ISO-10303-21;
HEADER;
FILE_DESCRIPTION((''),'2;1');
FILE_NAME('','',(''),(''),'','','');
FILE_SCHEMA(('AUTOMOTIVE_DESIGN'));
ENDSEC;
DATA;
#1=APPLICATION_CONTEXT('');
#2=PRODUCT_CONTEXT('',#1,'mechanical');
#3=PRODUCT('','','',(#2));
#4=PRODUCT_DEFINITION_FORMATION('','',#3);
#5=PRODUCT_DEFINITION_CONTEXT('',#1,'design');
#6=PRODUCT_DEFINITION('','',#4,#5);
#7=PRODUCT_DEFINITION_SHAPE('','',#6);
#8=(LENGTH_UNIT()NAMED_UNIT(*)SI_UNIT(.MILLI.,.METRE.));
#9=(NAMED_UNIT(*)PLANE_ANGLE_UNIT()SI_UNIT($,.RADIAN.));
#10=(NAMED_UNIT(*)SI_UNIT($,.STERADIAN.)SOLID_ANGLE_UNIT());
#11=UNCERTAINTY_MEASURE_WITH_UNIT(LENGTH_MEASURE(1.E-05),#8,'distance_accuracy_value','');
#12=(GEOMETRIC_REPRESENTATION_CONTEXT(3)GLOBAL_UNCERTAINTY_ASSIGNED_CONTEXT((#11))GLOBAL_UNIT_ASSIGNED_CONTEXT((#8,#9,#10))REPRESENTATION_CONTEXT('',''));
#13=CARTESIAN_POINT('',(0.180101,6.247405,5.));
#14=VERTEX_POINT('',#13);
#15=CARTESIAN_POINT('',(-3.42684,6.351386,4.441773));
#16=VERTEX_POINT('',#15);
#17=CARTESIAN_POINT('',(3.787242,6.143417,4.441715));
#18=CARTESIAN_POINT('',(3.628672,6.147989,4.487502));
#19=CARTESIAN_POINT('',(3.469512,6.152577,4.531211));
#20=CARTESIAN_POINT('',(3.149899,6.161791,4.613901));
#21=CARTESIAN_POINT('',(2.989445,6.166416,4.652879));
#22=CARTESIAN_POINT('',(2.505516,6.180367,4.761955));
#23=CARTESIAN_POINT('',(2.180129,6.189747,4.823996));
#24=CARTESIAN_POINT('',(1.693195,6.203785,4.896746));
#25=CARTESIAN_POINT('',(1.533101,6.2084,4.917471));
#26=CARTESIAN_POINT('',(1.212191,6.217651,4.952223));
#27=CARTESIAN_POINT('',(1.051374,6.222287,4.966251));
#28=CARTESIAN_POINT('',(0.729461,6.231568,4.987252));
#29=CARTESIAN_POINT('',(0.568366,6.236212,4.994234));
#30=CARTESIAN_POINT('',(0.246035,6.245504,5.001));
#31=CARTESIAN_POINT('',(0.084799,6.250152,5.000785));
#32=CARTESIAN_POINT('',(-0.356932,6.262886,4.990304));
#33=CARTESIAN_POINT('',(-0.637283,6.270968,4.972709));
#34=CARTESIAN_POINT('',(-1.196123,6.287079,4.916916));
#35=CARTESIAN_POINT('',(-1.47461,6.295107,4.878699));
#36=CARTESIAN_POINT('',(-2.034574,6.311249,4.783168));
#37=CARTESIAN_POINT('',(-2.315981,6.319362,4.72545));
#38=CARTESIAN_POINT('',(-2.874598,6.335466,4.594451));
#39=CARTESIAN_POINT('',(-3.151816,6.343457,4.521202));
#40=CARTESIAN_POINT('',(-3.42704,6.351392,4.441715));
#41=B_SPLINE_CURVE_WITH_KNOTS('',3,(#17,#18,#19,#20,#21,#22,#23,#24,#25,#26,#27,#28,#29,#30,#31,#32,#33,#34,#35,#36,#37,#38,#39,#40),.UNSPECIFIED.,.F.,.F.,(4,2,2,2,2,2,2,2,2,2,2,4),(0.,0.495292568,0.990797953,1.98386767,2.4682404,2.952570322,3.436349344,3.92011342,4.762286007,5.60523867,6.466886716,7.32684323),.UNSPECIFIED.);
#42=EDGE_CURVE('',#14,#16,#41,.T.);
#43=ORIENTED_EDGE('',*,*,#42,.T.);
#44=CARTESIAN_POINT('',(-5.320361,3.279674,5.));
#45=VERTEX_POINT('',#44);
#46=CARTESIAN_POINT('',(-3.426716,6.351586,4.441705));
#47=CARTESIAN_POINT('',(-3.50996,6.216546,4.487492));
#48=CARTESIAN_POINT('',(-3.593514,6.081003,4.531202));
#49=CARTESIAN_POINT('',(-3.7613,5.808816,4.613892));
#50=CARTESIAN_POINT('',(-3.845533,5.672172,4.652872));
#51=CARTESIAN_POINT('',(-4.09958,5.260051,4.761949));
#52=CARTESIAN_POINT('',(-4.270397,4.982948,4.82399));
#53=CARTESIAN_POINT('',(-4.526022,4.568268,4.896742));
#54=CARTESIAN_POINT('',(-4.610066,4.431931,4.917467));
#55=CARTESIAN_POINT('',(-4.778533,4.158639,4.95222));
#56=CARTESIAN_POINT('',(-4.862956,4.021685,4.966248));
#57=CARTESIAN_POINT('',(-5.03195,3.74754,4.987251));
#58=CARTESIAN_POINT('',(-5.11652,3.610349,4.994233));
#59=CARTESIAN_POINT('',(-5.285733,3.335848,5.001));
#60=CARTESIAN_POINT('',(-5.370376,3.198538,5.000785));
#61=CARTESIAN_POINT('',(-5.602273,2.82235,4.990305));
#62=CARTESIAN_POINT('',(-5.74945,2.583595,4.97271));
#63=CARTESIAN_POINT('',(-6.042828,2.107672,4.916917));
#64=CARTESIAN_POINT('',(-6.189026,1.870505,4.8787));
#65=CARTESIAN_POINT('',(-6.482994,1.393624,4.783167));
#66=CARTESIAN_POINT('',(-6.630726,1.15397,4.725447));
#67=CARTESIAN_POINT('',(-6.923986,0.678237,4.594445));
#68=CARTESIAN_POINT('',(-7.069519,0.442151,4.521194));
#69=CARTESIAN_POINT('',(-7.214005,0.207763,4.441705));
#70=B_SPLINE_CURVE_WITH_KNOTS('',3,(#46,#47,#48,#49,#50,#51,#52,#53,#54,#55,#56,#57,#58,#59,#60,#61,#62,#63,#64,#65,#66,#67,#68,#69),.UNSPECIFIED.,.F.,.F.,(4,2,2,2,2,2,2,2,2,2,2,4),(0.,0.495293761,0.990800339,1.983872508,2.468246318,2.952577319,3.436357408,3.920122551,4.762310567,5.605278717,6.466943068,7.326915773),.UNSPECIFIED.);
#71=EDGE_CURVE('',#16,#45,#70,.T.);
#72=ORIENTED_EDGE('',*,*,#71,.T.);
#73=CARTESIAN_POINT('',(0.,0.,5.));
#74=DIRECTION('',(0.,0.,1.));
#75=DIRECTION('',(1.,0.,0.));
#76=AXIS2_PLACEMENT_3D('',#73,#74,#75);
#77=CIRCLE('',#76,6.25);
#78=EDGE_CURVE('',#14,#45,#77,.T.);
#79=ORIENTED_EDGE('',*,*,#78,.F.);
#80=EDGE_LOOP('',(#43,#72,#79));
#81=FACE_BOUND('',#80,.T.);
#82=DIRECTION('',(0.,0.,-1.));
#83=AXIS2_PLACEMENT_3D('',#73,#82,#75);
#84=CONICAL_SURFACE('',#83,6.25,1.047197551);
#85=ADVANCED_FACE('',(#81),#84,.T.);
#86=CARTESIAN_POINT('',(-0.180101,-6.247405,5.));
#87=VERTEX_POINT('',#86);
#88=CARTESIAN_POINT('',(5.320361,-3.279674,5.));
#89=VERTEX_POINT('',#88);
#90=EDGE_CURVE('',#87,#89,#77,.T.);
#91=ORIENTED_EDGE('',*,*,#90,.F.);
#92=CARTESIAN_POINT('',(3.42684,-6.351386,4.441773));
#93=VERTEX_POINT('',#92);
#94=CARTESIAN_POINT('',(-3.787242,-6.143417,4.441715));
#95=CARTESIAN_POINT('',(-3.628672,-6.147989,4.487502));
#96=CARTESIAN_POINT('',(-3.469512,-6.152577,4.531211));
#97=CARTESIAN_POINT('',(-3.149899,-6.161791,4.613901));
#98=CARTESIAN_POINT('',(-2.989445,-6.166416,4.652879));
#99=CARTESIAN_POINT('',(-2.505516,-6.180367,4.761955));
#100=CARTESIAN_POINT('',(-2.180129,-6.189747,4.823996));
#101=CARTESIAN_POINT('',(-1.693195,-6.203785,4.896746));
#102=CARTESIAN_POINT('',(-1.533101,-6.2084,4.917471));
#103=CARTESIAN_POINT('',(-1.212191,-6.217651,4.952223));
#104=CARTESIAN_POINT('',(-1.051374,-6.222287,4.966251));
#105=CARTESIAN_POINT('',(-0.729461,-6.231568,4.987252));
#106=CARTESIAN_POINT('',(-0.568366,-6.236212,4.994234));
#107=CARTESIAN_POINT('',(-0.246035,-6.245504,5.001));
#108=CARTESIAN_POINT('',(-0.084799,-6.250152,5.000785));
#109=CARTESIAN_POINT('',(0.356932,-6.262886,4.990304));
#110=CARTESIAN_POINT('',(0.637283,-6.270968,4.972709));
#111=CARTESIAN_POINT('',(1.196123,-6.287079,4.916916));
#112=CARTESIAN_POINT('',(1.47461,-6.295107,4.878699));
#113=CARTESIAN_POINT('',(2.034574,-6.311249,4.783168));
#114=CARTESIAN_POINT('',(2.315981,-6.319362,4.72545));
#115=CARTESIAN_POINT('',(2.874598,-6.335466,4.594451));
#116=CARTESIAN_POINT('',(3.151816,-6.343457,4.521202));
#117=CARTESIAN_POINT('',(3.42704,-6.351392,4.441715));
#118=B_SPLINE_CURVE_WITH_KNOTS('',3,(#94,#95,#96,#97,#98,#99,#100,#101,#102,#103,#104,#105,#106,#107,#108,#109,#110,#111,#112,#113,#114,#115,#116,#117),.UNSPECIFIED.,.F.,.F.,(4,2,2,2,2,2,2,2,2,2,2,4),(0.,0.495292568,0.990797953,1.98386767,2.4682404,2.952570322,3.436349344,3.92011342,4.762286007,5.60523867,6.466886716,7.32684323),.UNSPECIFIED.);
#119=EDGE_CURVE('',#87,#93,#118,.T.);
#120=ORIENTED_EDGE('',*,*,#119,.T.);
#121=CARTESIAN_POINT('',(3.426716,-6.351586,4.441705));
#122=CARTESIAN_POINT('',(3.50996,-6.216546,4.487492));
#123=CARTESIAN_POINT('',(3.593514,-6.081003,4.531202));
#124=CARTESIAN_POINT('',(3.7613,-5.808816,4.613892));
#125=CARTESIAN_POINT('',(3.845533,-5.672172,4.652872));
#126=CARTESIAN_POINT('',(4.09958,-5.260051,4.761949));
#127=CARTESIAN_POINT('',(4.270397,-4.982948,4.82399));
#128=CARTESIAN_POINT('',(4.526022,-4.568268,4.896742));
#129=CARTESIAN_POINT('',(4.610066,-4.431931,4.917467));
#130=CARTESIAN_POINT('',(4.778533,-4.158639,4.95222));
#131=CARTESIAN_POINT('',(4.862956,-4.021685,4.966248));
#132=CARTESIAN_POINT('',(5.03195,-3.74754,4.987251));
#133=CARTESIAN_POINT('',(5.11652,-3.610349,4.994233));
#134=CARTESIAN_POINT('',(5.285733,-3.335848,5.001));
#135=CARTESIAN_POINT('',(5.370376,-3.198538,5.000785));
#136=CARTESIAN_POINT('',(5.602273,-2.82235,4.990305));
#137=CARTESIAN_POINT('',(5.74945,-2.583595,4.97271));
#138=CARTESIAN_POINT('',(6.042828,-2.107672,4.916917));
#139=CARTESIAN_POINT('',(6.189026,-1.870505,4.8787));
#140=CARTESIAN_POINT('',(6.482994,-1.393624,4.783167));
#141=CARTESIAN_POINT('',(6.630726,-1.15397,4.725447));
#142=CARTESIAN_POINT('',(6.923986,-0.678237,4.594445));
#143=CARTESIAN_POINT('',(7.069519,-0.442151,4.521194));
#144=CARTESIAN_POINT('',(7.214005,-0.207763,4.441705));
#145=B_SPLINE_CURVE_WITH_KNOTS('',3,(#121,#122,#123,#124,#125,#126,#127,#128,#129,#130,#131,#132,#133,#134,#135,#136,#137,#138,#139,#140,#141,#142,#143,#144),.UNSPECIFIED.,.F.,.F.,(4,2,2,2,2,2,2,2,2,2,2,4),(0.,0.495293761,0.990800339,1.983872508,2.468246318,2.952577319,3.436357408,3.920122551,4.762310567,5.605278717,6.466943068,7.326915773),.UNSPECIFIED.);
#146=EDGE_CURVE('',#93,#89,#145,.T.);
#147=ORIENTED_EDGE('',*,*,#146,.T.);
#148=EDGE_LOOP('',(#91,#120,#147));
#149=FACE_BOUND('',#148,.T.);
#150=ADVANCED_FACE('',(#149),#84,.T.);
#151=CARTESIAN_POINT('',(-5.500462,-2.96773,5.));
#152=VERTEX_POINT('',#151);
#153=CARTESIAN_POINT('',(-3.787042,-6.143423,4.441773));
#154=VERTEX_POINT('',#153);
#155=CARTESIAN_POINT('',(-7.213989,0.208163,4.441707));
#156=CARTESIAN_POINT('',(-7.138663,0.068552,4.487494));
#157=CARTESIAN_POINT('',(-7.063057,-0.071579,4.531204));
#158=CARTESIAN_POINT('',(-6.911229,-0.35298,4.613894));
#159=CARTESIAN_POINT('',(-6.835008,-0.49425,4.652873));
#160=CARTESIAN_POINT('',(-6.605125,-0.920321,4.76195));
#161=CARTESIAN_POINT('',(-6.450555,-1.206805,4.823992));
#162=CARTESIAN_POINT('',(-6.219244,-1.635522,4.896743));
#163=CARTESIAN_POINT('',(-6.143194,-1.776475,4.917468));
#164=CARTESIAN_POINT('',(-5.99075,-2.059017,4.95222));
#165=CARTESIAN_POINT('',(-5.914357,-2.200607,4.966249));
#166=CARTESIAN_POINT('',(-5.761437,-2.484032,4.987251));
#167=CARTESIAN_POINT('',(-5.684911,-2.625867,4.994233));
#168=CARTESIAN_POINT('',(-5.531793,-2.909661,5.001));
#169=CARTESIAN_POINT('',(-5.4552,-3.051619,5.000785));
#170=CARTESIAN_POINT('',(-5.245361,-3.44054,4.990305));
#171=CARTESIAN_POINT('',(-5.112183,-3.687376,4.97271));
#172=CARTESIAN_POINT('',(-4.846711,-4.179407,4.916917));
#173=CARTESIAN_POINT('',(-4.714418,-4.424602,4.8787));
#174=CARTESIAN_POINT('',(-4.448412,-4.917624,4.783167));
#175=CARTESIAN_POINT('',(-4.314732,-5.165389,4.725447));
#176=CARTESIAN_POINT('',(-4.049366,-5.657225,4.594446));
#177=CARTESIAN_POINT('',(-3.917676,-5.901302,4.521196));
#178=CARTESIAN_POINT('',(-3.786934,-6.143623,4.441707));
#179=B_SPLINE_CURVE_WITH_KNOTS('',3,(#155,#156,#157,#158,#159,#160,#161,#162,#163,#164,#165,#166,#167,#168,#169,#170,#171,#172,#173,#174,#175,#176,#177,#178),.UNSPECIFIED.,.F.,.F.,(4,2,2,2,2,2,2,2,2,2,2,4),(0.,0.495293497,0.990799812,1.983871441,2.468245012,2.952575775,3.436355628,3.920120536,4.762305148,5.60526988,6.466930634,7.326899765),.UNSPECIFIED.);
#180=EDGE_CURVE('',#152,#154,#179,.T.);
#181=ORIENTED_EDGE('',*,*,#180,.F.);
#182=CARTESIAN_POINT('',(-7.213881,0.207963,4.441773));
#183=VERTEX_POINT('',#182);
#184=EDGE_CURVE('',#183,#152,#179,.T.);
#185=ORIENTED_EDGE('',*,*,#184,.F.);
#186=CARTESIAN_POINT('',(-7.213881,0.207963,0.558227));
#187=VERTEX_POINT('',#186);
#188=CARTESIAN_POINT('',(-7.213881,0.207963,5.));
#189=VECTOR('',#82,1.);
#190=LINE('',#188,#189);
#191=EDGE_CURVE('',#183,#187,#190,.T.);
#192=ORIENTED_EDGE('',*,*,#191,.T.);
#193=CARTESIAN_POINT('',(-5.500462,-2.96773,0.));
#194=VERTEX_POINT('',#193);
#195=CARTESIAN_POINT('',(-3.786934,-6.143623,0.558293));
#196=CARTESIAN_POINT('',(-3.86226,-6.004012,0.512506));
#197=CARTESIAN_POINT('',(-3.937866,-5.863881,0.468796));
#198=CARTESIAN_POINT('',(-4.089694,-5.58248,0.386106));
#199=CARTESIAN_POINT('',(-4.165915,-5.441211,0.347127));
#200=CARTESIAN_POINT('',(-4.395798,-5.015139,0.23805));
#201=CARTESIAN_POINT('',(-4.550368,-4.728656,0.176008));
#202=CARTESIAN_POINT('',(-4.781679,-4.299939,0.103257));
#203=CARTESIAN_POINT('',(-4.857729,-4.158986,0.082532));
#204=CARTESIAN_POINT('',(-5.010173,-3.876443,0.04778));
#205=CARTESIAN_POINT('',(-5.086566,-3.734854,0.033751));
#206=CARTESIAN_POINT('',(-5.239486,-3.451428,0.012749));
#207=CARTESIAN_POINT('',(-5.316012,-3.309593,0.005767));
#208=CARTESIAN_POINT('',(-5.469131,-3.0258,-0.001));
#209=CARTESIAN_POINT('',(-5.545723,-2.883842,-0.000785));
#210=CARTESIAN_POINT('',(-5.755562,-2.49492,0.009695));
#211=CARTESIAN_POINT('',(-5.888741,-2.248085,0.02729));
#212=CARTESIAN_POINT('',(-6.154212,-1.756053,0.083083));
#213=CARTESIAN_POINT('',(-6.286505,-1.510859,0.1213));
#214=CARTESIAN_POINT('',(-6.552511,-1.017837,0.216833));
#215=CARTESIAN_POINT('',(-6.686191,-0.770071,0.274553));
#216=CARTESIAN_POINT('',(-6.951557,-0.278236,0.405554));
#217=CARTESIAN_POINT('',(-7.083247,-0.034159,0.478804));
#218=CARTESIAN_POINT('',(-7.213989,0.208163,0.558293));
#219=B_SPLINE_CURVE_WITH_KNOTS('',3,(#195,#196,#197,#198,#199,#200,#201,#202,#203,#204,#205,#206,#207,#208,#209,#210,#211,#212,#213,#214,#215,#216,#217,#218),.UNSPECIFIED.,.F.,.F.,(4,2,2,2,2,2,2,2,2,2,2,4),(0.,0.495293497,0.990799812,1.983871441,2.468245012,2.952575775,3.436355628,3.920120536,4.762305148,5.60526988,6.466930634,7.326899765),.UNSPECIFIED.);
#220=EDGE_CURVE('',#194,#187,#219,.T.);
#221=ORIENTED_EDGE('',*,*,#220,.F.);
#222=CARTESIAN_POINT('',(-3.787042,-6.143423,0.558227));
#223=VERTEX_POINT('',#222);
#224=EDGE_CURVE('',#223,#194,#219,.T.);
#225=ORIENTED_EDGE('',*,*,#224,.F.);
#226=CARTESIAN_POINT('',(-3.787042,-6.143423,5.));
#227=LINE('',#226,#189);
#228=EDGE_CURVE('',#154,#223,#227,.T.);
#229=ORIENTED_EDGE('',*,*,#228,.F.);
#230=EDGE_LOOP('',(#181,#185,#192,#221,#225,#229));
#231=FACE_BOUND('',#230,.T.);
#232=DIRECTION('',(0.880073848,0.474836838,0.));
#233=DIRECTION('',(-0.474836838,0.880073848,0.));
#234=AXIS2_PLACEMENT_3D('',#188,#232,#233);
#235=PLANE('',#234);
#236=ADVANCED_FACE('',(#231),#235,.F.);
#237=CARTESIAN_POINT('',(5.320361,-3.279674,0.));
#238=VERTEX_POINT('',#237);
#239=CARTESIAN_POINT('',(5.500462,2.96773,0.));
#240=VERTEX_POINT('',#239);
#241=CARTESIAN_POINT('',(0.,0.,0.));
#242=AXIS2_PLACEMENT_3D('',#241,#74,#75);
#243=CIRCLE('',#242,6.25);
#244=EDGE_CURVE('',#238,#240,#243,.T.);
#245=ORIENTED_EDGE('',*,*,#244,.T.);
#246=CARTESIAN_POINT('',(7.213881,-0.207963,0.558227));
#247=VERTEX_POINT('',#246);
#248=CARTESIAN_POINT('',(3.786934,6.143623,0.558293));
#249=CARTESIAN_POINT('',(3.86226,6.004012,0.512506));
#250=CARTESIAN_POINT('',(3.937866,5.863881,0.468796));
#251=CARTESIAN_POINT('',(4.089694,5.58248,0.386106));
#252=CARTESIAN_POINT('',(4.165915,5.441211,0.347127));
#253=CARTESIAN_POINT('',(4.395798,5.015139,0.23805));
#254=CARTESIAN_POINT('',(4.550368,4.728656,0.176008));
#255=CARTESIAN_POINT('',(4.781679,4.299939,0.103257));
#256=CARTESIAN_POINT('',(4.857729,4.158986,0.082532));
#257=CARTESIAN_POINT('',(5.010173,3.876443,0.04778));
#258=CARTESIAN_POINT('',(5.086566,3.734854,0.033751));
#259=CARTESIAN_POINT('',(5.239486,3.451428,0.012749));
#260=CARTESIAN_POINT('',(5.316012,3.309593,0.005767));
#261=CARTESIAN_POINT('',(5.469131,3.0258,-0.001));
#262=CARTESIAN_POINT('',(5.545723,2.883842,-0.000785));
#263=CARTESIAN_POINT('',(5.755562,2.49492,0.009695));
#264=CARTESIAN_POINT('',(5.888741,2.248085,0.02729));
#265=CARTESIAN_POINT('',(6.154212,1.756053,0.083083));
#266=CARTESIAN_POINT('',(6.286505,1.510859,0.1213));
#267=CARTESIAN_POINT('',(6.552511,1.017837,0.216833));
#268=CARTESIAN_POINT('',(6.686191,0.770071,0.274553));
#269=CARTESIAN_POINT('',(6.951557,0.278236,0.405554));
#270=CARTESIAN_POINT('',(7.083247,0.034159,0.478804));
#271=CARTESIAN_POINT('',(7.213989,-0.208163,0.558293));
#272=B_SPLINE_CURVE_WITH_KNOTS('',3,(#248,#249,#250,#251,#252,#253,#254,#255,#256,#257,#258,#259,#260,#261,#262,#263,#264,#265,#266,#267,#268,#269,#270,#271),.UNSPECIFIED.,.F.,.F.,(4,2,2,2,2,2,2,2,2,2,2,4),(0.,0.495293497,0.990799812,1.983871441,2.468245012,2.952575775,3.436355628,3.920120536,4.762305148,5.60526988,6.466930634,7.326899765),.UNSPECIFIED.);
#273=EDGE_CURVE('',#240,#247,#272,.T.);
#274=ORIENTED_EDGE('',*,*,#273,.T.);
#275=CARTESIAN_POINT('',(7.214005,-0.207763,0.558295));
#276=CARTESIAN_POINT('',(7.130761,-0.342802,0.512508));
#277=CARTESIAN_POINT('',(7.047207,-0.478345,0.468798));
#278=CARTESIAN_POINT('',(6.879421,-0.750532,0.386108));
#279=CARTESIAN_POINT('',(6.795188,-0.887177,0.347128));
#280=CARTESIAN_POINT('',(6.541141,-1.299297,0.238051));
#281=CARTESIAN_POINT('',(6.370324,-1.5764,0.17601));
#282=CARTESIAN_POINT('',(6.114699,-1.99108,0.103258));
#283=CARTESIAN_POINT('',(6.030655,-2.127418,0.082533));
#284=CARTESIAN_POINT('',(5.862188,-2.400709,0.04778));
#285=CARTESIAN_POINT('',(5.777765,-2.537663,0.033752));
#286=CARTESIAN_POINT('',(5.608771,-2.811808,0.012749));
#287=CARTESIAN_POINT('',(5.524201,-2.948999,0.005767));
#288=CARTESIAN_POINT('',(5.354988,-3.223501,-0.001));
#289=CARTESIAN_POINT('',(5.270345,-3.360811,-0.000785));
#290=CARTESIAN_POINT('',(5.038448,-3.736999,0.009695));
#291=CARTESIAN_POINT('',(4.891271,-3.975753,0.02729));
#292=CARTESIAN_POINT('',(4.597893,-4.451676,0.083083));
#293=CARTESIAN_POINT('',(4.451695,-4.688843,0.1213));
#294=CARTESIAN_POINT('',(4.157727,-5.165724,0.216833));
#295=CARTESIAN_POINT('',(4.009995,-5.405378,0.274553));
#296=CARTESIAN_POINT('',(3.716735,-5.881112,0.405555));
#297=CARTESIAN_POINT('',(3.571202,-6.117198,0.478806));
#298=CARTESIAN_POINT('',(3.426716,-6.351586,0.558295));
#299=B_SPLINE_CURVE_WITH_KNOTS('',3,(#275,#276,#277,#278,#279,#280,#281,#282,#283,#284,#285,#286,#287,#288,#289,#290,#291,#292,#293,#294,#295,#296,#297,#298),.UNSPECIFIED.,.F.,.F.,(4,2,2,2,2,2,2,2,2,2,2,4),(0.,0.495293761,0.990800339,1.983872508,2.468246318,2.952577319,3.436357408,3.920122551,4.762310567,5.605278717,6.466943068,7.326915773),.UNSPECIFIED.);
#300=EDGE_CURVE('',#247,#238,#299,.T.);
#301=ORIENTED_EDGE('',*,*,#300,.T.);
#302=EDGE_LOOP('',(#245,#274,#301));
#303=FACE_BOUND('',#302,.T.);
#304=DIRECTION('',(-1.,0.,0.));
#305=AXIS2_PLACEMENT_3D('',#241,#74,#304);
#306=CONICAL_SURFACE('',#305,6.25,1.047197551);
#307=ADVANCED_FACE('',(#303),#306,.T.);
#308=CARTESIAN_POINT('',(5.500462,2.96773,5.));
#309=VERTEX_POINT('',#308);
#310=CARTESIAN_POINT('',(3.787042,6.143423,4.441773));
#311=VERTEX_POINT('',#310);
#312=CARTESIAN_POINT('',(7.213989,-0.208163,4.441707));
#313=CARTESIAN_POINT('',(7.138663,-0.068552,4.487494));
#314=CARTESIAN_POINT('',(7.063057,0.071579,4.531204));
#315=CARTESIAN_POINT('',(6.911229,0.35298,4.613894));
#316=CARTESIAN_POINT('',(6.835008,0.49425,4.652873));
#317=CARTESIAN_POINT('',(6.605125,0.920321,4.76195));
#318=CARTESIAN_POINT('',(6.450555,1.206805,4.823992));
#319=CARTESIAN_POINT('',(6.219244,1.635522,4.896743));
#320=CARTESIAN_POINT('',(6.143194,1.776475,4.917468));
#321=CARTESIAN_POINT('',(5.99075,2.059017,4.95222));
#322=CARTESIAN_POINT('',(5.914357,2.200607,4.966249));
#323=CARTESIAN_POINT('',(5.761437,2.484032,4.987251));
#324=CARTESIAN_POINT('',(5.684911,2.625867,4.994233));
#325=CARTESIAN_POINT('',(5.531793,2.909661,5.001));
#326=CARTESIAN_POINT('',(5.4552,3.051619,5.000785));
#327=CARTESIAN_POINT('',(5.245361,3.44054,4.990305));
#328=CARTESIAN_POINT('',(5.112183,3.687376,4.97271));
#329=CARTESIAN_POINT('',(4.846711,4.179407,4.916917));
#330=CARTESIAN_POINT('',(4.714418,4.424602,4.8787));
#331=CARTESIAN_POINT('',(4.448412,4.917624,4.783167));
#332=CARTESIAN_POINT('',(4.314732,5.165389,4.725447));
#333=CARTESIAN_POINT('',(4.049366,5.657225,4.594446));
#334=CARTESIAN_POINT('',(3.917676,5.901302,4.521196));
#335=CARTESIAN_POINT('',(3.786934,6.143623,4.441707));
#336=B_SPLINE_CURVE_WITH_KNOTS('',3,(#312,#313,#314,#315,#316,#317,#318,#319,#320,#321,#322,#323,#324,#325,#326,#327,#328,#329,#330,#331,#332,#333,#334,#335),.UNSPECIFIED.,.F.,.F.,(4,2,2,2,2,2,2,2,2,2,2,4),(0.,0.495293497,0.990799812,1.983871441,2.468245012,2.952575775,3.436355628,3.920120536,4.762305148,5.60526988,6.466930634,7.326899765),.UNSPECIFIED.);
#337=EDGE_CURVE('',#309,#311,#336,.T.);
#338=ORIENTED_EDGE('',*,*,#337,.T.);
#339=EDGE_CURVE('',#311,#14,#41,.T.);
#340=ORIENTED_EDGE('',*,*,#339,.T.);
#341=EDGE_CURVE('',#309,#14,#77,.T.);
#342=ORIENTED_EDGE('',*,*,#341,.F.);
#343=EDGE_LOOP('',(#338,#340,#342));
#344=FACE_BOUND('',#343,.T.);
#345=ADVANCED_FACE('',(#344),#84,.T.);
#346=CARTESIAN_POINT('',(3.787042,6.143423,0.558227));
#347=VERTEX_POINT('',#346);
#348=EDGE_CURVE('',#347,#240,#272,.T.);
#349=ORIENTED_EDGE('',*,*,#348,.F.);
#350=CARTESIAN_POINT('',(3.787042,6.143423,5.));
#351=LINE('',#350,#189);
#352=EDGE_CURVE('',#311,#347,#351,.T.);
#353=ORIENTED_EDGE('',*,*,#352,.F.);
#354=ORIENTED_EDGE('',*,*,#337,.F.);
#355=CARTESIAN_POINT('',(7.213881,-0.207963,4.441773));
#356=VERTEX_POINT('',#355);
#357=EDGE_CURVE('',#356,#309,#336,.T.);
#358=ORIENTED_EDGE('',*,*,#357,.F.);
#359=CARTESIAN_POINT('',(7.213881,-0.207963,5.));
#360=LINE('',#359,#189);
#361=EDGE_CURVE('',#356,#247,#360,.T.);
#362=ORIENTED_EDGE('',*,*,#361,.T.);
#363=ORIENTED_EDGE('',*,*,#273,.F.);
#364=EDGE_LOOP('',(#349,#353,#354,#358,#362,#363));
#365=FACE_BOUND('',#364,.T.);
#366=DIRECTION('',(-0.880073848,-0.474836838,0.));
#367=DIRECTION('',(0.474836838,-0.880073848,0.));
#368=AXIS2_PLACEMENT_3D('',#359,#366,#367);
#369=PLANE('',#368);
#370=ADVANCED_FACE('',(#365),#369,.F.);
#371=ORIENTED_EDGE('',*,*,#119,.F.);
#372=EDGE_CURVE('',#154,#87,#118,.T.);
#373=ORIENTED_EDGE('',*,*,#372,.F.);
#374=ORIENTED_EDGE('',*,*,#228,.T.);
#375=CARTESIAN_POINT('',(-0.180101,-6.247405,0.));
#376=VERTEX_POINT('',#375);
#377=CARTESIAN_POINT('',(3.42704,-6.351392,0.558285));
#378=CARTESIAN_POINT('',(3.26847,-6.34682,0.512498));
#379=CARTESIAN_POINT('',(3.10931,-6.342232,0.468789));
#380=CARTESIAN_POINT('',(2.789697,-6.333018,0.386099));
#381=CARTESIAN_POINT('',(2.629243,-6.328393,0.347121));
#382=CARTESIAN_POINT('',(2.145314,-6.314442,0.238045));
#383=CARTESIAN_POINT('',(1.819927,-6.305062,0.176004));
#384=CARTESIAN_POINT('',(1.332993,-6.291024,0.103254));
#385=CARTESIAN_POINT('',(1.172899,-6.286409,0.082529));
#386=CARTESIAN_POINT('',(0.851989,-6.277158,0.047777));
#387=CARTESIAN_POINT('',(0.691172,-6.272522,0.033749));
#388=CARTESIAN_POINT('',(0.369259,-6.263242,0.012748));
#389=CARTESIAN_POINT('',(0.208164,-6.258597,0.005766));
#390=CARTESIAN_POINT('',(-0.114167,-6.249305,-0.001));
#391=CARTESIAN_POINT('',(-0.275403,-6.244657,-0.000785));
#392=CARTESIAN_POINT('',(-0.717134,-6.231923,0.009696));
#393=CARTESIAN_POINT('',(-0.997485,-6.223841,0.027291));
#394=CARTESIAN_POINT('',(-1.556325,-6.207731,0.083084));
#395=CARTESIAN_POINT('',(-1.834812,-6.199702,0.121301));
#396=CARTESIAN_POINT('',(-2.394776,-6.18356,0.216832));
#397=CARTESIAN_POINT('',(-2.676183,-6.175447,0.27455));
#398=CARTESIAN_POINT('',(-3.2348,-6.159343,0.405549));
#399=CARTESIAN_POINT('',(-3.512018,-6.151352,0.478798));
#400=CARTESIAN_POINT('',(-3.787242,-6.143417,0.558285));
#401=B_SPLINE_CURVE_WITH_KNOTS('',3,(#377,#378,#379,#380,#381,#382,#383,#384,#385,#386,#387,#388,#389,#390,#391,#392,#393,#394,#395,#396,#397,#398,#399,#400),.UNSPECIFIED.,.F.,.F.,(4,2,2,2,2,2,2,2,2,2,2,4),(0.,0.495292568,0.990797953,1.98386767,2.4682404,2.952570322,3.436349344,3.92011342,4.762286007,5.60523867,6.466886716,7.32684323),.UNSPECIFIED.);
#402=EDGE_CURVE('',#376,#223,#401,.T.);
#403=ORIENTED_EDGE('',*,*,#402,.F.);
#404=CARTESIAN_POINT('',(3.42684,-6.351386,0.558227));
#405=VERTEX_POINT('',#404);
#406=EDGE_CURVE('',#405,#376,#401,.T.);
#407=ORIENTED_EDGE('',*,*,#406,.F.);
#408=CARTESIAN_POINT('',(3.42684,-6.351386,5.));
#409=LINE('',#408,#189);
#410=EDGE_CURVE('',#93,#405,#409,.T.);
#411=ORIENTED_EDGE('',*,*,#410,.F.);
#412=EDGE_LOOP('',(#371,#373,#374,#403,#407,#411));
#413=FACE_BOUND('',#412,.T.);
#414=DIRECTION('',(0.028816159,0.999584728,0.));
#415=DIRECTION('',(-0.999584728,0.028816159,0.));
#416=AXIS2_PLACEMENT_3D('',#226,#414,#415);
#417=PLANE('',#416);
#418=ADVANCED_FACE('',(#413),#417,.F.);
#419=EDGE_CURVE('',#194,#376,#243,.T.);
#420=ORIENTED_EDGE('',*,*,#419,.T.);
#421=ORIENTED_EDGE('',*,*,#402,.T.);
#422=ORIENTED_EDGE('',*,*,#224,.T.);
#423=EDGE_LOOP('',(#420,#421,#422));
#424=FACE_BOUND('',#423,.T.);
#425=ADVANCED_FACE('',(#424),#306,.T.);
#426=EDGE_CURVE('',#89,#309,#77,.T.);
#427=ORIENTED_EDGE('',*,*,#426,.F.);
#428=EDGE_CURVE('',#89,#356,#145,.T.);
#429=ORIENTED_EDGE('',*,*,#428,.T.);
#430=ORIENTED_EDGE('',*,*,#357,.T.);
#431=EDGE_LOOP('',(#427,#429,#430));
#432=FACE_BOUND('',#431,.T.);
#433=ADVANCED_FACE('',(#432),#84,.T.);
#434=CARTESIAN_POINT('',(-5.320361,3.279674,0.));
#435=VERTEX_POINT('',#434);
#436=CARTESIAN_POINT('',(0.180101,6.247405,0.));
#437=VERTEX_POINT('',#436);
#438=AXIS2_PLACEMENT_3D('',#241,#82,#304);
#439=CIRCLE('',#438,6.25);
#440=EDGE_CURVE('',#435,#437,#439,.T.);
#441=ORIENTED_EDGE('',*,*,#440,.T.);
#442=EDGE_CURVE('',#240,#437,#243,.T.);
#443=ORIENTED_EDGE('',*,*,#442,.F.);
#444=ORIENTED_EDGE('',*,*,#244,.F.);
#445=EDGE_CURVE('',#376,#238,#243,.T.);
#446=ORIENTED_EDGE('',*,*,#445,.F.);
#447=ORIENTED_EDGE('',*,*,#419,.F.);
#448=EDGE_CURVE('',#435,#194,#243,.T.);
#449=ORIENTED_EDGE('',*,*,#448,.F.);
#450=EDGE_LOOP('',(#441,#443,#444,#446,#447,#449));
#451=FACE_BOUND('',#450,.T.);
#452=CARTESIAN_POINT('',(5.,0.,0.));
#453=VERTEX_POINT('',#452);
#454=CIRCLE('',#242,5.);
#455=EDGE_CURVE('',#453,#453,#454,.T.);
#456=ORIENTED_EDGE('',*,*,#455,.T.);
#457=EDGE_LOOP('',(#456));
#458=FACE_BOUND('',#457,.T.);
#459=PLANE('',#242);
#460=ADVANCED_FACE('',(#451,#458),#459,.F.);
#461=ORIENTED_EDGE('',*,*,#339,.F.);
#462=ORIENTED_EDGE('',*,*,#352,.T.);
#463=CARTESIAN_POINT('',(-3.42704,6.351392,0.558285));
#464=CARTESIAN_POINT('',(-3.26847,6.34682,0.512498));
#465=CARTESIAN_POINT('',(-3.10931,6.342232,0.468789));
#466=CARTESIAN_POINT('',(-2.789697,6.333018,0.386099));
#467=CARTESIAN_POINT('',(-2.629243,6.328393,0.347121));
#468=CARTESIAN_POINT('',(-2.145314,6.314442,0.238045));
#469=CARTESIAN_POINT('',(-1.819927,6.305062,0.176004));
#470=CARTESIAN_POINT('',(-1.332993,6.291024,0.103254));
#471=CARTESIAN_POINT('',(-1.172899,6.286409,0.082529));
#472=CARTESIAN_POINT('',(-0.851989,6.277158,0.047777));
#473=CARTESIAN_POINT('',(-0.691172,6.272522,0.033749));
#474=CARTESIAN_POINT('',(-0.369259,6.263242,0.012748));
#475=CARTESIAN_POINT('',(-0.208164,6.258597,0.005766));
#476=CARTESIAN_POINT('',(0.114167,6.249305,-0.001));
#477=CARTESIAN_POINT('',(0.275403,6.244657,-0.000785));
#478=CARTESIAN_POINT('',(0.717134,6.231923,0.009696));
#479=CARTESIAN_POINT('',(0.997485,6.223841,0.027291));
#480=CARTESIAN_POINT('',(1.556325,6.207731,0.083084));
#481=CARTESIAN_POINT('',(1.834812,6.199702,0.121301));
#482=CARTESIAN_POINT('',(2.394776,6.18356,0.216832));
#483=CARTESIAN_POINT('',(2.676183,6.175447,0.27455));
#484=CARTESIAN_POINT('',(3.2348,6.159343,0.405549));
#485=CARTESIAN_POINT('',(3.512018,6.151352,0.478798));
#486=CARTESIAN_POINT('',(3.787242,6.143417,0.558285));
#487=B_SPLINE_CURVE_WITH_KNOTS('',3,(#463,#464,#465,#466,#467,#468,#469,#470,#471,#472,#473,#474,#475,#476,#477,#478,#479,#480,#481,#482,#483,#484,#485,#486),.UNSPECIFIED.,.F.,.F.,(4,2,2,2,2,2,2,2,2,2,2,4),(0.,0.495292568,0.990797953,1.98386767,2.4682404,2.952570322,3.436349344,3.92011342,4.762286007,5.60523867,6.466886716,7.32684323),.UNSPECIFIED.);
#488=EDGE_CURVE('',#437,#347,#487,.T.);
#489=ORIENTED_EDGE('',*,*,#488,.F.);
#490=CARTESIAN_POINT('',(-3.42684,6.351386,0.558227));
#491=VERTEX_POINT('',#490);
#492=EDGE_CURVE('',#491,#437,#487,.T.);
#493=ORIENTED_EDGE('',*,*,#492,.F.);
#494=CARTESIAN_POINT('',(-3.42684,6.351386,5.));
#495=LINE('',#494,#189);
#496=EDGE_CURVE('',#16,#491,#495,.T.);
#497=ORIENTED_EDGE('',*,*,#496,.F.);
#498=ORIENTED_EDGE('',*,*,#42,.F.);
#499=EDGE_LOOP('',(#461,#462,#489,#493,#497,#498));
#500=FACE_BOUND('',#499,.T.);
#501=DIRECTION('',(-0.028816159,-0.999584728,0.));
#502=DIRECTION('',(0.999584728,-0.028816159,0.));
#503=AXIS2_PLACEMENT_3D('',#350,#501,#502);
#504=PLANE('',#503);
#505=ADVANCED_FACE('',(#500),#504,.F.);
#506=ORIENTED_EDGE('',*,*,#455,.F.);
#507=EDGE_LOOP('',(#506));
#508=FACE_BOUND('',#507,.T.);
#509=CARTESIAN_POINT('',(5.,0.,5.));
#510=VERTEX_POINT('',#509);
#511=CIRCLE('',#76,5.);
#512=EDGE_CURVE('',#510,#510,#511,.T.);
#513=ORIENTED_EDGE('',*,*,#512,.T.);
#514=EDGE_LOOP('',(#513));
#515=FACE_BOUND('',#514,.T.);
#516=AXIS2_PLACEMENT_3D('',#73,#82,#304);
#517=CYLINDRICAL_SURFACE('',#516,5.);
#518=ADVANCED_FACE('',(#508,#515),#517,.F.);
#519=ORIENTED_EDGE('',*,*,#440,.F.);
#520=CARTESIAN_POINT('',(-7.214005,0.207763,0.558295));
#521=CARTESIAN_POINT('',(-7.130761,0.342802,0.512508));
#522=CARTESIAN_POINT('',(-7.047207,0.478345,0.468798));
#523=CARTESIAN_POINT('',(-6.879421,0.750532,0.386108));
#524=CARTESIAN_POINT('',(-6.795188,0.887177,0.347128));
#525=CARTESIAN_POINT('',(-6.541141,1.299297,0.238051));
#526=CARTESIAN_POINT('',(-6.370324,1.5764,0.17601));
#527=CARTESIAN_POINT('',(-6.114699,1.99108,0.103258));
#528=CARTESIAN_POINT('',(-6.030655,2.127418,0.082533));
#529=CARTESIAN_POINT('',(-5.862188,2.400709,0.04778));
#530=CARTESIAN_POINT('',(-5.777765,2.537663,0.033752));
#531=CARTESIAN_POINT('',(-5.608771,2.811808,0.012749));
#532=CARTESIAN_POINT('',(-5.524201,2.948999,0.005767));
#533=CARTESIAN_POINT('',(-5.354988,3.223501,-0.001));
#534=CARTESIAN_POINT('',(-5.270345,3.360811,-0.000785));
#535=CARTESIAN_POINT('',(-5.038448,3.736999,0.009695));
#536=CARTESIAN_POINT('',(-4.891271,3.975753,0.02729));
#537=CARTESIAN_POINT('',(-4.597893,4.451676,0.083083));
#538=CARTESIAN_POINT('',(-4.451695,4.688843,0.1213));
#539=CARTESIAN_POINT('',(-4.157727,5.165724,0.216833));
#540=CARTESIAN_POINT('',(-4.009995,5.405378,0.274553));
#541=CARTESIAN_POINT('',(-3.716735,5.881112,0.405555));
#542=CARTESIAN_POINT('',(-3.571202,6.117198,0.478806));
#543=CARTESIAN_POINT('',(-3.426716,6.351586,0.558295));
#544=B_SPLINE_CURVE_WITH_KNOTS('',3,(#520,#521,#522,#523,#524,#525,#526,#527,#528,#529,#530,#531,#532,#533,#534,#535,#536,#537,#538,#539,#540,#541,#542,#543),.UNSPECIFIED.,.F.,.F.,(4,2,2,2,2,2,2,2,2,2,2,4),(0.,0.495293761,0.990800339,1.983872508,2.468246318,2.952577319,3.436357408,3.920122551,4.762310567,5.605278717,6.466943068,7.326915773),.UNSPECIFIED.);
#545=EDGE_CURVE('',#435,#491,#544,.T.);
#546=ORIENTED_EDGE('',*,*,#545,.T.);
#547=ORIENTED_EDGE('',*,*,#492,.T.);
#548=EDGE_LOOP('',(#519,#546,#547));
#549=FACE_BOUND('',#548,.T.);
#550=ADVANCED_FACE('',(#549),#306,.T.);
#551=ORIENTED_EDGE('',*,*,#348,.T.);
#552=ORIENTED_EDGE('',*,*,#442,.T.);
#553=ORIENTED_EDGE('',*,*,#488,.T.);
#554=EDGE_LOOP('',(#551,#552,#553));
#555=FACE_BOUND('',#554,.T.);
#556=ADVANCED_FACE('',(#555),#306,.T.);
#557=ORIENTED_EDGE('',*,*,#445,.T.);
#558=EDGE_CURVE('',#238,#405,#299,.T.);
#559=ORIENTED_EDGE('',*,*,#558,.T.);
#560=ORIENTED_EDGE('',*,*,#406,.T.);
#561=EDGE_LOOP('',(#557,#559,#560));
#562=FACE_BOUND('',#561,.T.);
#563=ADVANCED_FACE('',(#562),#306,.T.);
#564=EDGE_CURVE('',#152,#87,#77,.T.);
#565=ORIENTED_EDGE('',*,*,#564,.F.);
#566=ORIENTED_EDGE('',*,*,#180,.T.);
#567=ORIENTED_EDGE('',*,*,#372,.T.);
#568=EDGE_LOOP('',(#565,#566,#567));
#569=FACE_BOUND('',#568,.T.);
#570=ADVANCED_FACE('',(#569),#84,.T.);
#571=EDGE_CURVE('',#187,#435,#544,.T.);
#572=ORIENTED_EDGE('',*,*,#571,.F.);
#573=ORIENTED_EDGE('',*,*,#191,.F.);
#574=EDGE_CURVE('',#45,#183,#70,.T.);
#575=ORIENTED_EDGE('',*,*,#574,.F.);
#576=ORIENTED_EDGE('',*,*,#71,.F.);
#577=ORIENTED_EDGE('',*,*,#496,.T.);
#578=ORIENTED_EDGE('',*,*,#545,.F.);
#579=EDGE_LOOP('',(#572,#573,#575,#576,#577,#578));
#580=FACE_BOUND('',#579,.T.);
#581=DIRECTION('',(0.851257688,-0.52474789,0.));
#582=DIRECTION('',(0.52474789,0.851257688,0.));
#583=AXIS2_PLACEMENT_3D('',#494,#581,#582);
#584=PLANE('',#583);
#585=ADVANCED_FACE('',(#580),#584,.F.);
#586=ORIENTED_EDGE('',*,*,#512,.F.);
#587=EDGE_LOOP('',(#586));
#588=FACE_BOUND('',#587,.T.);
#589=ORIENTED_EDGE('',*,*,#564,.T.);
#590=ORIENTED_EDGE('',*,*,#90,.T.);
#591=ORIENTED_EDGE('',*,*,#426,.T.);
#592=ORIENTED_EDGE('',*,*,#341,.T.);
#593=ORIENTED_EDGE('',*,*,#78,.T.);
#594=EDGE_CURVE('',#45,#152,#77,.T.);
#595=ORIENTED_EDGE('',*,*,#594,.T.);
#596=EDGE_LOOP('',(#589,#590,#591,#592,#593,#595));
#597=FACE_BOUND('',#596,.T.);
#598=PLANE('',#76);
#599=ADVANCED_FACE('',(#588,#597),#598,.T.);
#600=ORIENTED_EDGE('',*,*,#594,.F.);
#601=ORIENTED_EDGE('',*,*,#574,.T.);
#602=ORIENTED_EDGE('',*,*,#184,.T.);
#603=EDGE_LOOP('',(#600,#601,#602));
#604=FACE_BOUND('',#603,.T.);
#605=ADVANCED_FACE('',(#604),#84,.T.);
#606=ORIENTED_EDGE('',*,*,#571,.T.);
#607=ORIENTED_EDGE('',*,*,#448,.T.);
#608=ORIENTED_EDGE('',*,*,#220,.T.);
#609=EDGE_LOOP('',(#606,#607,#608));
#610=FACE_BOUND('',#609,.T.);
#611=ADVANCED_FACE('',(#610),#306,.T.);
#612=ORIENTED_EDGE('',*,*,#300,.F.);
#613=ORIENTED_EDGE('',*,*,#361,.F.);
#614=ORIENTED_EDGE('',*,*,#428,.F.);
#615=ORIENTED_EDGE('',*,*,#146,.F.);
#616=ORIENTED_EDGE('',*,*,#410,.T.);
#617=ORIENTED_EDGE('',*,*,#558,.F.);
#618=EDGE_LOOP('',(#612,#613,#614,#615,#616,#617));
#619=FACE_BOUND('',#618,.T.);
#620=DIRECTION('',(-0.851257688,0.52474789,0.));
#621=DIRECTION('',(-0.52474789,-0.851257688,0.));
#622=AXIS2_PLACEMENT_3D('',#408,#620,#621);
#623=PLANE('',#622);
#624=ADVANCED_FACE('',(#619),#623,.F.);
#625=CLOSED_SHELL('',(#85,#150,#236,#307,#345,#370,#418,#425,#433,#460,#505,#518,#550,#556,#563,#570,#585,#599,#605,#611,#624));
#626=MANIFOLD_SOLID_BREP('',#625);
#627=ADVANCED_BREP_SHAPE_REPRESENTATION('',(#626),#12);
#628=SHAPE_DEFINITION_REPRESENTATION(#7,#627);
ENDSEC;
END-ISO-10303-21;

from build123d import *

# Parameters (mm, degrees)
SKETCH1_R           = 5
BOSS_EXTRUDE1_DEPTH = 5
SKETCH2_OUTSIDE_W   = 61.396
SKETCH2_OUTSIDE_H   = 59.67
SKETCH2_OUTSIDE_R   = 6.25
CUT_EXTRUDE1_DEPTH  = 11.834213761
CUT_EXTRUDE1_DRAFT  = -60
SKETCH3_OUTSIDE_W   = 61.396
SKETCH3_OUTSIDE_H   = 59.67
SKETCH3_OUTSIDE_R   = 6.25
CUT_EXTRUDE2_DEPTH  = 11.834213761
CUT_EXTRUDE2_DRAFT  = -60


with BuildPart() as part:
    # Sketch1 → Boss-Extrude1 (new body)
    with BuildSketch(Plane.XY):
        Polygon((3.787041695, 6.143423194), (-3.426839705, 6.35138591), (-7.213881399, 0.207962716), (-3.787041695, -6.143423194), (3.426839705, -6.35138591), (7.213881399, -0.207962716), align=None)
        Circle(SKETCH1_R, mode=Mode.SUBTRACT)
    extrude(amount=BOSS_EXTRUDE1_DEPTH)


with BuildPart() as cut_extrude1_tool:
    # Sketch2 outside → Cut-Extrude1 (with draft: the straight prism first)
    with BuildSketch(Plane.XY.offset(5)):
        Rectangle(SKETCH2_OUTSIDE_W, SKETCH2_OUTSIDE_H)
        Circle(SKETCH2_OUTSIDE_R, mode=Mode.SUBTRACT)
    extrude(amount=-CUT_EXTRUDE1_DEPTH)
    # Cut-Extrude1: the draft: its side faces are tilted about the plane it starts from
    cut_extrude1_sides = [cut_extrude1_tool.faces().sort_by_distance(p)[0] for p in [
        (0, -29.835, -0.91710688),
        (30.698, 0, -0.91710688),
        (0, 29.835, -0.91710688),
        (-30.698, 0, -0.91710688),
        (-6.25, 0, -0.91710688),
    ]]
    draft(cut_extrude1_sides, Plane.XY.offset(5), CUT_EXTRUDE1_DRAFT)


with BuildPart() as part_1:
    add(part.part)

    # Cut-Extrude1: cut by cut_extrude1_tool
    add(cut_extrude1_tool.part, mode=Mode.SUBTRACT)


with BuildPart() as cut_extrude2_tool:
    # Sketch3 outside → Cut-Extrude2 (with draft: the straight prism first)
    with BuildSketch(Plane(origin=(0, 0, 0), x_dir=(-1, 0, 0), z_dir=(0, 0, -1))):
        Rectangle(SKETCH3_OUTSIDE_W, SKETCH3_OUTSIDE_H)
        Circle(SKETCH3_OUTSIDE_R, mode=Mode.SUBTRACT)
    extrude(amount=-CUT_EXTRUDE2_DEPTH)
    # Cut-Extrude2: the draft: its side faces are tilted about the plane it starts from
    cut_extrude2_sides = [cut_extrude2_tool.faces().sort_by_distance(p)[0] for p in [
        (0, -29.835, 5.91710688),
        (-30.698, 0, 5.91710688),
        (0, 29.835, 5.91710688),
        (30.698, 0, 5.91710688),
        (6.25, 0, 5.91710688),
    ]]
    draft(cut_extrude2_sides, Plane(origin=(0, 0, 0), x_dir=(-1, 0, 0), z_dir=(0, 0, -1)), CUT_EXTRUDE2_DRAFT)


with BuildPart() as part_2:
    add(part_1.part)

    # Cut-Extrude2: cut by cut_extrude2_tool
    add(cut_extrude2_tool.part, mode=Mode.SUBTRACT)


solid = part_2.part
